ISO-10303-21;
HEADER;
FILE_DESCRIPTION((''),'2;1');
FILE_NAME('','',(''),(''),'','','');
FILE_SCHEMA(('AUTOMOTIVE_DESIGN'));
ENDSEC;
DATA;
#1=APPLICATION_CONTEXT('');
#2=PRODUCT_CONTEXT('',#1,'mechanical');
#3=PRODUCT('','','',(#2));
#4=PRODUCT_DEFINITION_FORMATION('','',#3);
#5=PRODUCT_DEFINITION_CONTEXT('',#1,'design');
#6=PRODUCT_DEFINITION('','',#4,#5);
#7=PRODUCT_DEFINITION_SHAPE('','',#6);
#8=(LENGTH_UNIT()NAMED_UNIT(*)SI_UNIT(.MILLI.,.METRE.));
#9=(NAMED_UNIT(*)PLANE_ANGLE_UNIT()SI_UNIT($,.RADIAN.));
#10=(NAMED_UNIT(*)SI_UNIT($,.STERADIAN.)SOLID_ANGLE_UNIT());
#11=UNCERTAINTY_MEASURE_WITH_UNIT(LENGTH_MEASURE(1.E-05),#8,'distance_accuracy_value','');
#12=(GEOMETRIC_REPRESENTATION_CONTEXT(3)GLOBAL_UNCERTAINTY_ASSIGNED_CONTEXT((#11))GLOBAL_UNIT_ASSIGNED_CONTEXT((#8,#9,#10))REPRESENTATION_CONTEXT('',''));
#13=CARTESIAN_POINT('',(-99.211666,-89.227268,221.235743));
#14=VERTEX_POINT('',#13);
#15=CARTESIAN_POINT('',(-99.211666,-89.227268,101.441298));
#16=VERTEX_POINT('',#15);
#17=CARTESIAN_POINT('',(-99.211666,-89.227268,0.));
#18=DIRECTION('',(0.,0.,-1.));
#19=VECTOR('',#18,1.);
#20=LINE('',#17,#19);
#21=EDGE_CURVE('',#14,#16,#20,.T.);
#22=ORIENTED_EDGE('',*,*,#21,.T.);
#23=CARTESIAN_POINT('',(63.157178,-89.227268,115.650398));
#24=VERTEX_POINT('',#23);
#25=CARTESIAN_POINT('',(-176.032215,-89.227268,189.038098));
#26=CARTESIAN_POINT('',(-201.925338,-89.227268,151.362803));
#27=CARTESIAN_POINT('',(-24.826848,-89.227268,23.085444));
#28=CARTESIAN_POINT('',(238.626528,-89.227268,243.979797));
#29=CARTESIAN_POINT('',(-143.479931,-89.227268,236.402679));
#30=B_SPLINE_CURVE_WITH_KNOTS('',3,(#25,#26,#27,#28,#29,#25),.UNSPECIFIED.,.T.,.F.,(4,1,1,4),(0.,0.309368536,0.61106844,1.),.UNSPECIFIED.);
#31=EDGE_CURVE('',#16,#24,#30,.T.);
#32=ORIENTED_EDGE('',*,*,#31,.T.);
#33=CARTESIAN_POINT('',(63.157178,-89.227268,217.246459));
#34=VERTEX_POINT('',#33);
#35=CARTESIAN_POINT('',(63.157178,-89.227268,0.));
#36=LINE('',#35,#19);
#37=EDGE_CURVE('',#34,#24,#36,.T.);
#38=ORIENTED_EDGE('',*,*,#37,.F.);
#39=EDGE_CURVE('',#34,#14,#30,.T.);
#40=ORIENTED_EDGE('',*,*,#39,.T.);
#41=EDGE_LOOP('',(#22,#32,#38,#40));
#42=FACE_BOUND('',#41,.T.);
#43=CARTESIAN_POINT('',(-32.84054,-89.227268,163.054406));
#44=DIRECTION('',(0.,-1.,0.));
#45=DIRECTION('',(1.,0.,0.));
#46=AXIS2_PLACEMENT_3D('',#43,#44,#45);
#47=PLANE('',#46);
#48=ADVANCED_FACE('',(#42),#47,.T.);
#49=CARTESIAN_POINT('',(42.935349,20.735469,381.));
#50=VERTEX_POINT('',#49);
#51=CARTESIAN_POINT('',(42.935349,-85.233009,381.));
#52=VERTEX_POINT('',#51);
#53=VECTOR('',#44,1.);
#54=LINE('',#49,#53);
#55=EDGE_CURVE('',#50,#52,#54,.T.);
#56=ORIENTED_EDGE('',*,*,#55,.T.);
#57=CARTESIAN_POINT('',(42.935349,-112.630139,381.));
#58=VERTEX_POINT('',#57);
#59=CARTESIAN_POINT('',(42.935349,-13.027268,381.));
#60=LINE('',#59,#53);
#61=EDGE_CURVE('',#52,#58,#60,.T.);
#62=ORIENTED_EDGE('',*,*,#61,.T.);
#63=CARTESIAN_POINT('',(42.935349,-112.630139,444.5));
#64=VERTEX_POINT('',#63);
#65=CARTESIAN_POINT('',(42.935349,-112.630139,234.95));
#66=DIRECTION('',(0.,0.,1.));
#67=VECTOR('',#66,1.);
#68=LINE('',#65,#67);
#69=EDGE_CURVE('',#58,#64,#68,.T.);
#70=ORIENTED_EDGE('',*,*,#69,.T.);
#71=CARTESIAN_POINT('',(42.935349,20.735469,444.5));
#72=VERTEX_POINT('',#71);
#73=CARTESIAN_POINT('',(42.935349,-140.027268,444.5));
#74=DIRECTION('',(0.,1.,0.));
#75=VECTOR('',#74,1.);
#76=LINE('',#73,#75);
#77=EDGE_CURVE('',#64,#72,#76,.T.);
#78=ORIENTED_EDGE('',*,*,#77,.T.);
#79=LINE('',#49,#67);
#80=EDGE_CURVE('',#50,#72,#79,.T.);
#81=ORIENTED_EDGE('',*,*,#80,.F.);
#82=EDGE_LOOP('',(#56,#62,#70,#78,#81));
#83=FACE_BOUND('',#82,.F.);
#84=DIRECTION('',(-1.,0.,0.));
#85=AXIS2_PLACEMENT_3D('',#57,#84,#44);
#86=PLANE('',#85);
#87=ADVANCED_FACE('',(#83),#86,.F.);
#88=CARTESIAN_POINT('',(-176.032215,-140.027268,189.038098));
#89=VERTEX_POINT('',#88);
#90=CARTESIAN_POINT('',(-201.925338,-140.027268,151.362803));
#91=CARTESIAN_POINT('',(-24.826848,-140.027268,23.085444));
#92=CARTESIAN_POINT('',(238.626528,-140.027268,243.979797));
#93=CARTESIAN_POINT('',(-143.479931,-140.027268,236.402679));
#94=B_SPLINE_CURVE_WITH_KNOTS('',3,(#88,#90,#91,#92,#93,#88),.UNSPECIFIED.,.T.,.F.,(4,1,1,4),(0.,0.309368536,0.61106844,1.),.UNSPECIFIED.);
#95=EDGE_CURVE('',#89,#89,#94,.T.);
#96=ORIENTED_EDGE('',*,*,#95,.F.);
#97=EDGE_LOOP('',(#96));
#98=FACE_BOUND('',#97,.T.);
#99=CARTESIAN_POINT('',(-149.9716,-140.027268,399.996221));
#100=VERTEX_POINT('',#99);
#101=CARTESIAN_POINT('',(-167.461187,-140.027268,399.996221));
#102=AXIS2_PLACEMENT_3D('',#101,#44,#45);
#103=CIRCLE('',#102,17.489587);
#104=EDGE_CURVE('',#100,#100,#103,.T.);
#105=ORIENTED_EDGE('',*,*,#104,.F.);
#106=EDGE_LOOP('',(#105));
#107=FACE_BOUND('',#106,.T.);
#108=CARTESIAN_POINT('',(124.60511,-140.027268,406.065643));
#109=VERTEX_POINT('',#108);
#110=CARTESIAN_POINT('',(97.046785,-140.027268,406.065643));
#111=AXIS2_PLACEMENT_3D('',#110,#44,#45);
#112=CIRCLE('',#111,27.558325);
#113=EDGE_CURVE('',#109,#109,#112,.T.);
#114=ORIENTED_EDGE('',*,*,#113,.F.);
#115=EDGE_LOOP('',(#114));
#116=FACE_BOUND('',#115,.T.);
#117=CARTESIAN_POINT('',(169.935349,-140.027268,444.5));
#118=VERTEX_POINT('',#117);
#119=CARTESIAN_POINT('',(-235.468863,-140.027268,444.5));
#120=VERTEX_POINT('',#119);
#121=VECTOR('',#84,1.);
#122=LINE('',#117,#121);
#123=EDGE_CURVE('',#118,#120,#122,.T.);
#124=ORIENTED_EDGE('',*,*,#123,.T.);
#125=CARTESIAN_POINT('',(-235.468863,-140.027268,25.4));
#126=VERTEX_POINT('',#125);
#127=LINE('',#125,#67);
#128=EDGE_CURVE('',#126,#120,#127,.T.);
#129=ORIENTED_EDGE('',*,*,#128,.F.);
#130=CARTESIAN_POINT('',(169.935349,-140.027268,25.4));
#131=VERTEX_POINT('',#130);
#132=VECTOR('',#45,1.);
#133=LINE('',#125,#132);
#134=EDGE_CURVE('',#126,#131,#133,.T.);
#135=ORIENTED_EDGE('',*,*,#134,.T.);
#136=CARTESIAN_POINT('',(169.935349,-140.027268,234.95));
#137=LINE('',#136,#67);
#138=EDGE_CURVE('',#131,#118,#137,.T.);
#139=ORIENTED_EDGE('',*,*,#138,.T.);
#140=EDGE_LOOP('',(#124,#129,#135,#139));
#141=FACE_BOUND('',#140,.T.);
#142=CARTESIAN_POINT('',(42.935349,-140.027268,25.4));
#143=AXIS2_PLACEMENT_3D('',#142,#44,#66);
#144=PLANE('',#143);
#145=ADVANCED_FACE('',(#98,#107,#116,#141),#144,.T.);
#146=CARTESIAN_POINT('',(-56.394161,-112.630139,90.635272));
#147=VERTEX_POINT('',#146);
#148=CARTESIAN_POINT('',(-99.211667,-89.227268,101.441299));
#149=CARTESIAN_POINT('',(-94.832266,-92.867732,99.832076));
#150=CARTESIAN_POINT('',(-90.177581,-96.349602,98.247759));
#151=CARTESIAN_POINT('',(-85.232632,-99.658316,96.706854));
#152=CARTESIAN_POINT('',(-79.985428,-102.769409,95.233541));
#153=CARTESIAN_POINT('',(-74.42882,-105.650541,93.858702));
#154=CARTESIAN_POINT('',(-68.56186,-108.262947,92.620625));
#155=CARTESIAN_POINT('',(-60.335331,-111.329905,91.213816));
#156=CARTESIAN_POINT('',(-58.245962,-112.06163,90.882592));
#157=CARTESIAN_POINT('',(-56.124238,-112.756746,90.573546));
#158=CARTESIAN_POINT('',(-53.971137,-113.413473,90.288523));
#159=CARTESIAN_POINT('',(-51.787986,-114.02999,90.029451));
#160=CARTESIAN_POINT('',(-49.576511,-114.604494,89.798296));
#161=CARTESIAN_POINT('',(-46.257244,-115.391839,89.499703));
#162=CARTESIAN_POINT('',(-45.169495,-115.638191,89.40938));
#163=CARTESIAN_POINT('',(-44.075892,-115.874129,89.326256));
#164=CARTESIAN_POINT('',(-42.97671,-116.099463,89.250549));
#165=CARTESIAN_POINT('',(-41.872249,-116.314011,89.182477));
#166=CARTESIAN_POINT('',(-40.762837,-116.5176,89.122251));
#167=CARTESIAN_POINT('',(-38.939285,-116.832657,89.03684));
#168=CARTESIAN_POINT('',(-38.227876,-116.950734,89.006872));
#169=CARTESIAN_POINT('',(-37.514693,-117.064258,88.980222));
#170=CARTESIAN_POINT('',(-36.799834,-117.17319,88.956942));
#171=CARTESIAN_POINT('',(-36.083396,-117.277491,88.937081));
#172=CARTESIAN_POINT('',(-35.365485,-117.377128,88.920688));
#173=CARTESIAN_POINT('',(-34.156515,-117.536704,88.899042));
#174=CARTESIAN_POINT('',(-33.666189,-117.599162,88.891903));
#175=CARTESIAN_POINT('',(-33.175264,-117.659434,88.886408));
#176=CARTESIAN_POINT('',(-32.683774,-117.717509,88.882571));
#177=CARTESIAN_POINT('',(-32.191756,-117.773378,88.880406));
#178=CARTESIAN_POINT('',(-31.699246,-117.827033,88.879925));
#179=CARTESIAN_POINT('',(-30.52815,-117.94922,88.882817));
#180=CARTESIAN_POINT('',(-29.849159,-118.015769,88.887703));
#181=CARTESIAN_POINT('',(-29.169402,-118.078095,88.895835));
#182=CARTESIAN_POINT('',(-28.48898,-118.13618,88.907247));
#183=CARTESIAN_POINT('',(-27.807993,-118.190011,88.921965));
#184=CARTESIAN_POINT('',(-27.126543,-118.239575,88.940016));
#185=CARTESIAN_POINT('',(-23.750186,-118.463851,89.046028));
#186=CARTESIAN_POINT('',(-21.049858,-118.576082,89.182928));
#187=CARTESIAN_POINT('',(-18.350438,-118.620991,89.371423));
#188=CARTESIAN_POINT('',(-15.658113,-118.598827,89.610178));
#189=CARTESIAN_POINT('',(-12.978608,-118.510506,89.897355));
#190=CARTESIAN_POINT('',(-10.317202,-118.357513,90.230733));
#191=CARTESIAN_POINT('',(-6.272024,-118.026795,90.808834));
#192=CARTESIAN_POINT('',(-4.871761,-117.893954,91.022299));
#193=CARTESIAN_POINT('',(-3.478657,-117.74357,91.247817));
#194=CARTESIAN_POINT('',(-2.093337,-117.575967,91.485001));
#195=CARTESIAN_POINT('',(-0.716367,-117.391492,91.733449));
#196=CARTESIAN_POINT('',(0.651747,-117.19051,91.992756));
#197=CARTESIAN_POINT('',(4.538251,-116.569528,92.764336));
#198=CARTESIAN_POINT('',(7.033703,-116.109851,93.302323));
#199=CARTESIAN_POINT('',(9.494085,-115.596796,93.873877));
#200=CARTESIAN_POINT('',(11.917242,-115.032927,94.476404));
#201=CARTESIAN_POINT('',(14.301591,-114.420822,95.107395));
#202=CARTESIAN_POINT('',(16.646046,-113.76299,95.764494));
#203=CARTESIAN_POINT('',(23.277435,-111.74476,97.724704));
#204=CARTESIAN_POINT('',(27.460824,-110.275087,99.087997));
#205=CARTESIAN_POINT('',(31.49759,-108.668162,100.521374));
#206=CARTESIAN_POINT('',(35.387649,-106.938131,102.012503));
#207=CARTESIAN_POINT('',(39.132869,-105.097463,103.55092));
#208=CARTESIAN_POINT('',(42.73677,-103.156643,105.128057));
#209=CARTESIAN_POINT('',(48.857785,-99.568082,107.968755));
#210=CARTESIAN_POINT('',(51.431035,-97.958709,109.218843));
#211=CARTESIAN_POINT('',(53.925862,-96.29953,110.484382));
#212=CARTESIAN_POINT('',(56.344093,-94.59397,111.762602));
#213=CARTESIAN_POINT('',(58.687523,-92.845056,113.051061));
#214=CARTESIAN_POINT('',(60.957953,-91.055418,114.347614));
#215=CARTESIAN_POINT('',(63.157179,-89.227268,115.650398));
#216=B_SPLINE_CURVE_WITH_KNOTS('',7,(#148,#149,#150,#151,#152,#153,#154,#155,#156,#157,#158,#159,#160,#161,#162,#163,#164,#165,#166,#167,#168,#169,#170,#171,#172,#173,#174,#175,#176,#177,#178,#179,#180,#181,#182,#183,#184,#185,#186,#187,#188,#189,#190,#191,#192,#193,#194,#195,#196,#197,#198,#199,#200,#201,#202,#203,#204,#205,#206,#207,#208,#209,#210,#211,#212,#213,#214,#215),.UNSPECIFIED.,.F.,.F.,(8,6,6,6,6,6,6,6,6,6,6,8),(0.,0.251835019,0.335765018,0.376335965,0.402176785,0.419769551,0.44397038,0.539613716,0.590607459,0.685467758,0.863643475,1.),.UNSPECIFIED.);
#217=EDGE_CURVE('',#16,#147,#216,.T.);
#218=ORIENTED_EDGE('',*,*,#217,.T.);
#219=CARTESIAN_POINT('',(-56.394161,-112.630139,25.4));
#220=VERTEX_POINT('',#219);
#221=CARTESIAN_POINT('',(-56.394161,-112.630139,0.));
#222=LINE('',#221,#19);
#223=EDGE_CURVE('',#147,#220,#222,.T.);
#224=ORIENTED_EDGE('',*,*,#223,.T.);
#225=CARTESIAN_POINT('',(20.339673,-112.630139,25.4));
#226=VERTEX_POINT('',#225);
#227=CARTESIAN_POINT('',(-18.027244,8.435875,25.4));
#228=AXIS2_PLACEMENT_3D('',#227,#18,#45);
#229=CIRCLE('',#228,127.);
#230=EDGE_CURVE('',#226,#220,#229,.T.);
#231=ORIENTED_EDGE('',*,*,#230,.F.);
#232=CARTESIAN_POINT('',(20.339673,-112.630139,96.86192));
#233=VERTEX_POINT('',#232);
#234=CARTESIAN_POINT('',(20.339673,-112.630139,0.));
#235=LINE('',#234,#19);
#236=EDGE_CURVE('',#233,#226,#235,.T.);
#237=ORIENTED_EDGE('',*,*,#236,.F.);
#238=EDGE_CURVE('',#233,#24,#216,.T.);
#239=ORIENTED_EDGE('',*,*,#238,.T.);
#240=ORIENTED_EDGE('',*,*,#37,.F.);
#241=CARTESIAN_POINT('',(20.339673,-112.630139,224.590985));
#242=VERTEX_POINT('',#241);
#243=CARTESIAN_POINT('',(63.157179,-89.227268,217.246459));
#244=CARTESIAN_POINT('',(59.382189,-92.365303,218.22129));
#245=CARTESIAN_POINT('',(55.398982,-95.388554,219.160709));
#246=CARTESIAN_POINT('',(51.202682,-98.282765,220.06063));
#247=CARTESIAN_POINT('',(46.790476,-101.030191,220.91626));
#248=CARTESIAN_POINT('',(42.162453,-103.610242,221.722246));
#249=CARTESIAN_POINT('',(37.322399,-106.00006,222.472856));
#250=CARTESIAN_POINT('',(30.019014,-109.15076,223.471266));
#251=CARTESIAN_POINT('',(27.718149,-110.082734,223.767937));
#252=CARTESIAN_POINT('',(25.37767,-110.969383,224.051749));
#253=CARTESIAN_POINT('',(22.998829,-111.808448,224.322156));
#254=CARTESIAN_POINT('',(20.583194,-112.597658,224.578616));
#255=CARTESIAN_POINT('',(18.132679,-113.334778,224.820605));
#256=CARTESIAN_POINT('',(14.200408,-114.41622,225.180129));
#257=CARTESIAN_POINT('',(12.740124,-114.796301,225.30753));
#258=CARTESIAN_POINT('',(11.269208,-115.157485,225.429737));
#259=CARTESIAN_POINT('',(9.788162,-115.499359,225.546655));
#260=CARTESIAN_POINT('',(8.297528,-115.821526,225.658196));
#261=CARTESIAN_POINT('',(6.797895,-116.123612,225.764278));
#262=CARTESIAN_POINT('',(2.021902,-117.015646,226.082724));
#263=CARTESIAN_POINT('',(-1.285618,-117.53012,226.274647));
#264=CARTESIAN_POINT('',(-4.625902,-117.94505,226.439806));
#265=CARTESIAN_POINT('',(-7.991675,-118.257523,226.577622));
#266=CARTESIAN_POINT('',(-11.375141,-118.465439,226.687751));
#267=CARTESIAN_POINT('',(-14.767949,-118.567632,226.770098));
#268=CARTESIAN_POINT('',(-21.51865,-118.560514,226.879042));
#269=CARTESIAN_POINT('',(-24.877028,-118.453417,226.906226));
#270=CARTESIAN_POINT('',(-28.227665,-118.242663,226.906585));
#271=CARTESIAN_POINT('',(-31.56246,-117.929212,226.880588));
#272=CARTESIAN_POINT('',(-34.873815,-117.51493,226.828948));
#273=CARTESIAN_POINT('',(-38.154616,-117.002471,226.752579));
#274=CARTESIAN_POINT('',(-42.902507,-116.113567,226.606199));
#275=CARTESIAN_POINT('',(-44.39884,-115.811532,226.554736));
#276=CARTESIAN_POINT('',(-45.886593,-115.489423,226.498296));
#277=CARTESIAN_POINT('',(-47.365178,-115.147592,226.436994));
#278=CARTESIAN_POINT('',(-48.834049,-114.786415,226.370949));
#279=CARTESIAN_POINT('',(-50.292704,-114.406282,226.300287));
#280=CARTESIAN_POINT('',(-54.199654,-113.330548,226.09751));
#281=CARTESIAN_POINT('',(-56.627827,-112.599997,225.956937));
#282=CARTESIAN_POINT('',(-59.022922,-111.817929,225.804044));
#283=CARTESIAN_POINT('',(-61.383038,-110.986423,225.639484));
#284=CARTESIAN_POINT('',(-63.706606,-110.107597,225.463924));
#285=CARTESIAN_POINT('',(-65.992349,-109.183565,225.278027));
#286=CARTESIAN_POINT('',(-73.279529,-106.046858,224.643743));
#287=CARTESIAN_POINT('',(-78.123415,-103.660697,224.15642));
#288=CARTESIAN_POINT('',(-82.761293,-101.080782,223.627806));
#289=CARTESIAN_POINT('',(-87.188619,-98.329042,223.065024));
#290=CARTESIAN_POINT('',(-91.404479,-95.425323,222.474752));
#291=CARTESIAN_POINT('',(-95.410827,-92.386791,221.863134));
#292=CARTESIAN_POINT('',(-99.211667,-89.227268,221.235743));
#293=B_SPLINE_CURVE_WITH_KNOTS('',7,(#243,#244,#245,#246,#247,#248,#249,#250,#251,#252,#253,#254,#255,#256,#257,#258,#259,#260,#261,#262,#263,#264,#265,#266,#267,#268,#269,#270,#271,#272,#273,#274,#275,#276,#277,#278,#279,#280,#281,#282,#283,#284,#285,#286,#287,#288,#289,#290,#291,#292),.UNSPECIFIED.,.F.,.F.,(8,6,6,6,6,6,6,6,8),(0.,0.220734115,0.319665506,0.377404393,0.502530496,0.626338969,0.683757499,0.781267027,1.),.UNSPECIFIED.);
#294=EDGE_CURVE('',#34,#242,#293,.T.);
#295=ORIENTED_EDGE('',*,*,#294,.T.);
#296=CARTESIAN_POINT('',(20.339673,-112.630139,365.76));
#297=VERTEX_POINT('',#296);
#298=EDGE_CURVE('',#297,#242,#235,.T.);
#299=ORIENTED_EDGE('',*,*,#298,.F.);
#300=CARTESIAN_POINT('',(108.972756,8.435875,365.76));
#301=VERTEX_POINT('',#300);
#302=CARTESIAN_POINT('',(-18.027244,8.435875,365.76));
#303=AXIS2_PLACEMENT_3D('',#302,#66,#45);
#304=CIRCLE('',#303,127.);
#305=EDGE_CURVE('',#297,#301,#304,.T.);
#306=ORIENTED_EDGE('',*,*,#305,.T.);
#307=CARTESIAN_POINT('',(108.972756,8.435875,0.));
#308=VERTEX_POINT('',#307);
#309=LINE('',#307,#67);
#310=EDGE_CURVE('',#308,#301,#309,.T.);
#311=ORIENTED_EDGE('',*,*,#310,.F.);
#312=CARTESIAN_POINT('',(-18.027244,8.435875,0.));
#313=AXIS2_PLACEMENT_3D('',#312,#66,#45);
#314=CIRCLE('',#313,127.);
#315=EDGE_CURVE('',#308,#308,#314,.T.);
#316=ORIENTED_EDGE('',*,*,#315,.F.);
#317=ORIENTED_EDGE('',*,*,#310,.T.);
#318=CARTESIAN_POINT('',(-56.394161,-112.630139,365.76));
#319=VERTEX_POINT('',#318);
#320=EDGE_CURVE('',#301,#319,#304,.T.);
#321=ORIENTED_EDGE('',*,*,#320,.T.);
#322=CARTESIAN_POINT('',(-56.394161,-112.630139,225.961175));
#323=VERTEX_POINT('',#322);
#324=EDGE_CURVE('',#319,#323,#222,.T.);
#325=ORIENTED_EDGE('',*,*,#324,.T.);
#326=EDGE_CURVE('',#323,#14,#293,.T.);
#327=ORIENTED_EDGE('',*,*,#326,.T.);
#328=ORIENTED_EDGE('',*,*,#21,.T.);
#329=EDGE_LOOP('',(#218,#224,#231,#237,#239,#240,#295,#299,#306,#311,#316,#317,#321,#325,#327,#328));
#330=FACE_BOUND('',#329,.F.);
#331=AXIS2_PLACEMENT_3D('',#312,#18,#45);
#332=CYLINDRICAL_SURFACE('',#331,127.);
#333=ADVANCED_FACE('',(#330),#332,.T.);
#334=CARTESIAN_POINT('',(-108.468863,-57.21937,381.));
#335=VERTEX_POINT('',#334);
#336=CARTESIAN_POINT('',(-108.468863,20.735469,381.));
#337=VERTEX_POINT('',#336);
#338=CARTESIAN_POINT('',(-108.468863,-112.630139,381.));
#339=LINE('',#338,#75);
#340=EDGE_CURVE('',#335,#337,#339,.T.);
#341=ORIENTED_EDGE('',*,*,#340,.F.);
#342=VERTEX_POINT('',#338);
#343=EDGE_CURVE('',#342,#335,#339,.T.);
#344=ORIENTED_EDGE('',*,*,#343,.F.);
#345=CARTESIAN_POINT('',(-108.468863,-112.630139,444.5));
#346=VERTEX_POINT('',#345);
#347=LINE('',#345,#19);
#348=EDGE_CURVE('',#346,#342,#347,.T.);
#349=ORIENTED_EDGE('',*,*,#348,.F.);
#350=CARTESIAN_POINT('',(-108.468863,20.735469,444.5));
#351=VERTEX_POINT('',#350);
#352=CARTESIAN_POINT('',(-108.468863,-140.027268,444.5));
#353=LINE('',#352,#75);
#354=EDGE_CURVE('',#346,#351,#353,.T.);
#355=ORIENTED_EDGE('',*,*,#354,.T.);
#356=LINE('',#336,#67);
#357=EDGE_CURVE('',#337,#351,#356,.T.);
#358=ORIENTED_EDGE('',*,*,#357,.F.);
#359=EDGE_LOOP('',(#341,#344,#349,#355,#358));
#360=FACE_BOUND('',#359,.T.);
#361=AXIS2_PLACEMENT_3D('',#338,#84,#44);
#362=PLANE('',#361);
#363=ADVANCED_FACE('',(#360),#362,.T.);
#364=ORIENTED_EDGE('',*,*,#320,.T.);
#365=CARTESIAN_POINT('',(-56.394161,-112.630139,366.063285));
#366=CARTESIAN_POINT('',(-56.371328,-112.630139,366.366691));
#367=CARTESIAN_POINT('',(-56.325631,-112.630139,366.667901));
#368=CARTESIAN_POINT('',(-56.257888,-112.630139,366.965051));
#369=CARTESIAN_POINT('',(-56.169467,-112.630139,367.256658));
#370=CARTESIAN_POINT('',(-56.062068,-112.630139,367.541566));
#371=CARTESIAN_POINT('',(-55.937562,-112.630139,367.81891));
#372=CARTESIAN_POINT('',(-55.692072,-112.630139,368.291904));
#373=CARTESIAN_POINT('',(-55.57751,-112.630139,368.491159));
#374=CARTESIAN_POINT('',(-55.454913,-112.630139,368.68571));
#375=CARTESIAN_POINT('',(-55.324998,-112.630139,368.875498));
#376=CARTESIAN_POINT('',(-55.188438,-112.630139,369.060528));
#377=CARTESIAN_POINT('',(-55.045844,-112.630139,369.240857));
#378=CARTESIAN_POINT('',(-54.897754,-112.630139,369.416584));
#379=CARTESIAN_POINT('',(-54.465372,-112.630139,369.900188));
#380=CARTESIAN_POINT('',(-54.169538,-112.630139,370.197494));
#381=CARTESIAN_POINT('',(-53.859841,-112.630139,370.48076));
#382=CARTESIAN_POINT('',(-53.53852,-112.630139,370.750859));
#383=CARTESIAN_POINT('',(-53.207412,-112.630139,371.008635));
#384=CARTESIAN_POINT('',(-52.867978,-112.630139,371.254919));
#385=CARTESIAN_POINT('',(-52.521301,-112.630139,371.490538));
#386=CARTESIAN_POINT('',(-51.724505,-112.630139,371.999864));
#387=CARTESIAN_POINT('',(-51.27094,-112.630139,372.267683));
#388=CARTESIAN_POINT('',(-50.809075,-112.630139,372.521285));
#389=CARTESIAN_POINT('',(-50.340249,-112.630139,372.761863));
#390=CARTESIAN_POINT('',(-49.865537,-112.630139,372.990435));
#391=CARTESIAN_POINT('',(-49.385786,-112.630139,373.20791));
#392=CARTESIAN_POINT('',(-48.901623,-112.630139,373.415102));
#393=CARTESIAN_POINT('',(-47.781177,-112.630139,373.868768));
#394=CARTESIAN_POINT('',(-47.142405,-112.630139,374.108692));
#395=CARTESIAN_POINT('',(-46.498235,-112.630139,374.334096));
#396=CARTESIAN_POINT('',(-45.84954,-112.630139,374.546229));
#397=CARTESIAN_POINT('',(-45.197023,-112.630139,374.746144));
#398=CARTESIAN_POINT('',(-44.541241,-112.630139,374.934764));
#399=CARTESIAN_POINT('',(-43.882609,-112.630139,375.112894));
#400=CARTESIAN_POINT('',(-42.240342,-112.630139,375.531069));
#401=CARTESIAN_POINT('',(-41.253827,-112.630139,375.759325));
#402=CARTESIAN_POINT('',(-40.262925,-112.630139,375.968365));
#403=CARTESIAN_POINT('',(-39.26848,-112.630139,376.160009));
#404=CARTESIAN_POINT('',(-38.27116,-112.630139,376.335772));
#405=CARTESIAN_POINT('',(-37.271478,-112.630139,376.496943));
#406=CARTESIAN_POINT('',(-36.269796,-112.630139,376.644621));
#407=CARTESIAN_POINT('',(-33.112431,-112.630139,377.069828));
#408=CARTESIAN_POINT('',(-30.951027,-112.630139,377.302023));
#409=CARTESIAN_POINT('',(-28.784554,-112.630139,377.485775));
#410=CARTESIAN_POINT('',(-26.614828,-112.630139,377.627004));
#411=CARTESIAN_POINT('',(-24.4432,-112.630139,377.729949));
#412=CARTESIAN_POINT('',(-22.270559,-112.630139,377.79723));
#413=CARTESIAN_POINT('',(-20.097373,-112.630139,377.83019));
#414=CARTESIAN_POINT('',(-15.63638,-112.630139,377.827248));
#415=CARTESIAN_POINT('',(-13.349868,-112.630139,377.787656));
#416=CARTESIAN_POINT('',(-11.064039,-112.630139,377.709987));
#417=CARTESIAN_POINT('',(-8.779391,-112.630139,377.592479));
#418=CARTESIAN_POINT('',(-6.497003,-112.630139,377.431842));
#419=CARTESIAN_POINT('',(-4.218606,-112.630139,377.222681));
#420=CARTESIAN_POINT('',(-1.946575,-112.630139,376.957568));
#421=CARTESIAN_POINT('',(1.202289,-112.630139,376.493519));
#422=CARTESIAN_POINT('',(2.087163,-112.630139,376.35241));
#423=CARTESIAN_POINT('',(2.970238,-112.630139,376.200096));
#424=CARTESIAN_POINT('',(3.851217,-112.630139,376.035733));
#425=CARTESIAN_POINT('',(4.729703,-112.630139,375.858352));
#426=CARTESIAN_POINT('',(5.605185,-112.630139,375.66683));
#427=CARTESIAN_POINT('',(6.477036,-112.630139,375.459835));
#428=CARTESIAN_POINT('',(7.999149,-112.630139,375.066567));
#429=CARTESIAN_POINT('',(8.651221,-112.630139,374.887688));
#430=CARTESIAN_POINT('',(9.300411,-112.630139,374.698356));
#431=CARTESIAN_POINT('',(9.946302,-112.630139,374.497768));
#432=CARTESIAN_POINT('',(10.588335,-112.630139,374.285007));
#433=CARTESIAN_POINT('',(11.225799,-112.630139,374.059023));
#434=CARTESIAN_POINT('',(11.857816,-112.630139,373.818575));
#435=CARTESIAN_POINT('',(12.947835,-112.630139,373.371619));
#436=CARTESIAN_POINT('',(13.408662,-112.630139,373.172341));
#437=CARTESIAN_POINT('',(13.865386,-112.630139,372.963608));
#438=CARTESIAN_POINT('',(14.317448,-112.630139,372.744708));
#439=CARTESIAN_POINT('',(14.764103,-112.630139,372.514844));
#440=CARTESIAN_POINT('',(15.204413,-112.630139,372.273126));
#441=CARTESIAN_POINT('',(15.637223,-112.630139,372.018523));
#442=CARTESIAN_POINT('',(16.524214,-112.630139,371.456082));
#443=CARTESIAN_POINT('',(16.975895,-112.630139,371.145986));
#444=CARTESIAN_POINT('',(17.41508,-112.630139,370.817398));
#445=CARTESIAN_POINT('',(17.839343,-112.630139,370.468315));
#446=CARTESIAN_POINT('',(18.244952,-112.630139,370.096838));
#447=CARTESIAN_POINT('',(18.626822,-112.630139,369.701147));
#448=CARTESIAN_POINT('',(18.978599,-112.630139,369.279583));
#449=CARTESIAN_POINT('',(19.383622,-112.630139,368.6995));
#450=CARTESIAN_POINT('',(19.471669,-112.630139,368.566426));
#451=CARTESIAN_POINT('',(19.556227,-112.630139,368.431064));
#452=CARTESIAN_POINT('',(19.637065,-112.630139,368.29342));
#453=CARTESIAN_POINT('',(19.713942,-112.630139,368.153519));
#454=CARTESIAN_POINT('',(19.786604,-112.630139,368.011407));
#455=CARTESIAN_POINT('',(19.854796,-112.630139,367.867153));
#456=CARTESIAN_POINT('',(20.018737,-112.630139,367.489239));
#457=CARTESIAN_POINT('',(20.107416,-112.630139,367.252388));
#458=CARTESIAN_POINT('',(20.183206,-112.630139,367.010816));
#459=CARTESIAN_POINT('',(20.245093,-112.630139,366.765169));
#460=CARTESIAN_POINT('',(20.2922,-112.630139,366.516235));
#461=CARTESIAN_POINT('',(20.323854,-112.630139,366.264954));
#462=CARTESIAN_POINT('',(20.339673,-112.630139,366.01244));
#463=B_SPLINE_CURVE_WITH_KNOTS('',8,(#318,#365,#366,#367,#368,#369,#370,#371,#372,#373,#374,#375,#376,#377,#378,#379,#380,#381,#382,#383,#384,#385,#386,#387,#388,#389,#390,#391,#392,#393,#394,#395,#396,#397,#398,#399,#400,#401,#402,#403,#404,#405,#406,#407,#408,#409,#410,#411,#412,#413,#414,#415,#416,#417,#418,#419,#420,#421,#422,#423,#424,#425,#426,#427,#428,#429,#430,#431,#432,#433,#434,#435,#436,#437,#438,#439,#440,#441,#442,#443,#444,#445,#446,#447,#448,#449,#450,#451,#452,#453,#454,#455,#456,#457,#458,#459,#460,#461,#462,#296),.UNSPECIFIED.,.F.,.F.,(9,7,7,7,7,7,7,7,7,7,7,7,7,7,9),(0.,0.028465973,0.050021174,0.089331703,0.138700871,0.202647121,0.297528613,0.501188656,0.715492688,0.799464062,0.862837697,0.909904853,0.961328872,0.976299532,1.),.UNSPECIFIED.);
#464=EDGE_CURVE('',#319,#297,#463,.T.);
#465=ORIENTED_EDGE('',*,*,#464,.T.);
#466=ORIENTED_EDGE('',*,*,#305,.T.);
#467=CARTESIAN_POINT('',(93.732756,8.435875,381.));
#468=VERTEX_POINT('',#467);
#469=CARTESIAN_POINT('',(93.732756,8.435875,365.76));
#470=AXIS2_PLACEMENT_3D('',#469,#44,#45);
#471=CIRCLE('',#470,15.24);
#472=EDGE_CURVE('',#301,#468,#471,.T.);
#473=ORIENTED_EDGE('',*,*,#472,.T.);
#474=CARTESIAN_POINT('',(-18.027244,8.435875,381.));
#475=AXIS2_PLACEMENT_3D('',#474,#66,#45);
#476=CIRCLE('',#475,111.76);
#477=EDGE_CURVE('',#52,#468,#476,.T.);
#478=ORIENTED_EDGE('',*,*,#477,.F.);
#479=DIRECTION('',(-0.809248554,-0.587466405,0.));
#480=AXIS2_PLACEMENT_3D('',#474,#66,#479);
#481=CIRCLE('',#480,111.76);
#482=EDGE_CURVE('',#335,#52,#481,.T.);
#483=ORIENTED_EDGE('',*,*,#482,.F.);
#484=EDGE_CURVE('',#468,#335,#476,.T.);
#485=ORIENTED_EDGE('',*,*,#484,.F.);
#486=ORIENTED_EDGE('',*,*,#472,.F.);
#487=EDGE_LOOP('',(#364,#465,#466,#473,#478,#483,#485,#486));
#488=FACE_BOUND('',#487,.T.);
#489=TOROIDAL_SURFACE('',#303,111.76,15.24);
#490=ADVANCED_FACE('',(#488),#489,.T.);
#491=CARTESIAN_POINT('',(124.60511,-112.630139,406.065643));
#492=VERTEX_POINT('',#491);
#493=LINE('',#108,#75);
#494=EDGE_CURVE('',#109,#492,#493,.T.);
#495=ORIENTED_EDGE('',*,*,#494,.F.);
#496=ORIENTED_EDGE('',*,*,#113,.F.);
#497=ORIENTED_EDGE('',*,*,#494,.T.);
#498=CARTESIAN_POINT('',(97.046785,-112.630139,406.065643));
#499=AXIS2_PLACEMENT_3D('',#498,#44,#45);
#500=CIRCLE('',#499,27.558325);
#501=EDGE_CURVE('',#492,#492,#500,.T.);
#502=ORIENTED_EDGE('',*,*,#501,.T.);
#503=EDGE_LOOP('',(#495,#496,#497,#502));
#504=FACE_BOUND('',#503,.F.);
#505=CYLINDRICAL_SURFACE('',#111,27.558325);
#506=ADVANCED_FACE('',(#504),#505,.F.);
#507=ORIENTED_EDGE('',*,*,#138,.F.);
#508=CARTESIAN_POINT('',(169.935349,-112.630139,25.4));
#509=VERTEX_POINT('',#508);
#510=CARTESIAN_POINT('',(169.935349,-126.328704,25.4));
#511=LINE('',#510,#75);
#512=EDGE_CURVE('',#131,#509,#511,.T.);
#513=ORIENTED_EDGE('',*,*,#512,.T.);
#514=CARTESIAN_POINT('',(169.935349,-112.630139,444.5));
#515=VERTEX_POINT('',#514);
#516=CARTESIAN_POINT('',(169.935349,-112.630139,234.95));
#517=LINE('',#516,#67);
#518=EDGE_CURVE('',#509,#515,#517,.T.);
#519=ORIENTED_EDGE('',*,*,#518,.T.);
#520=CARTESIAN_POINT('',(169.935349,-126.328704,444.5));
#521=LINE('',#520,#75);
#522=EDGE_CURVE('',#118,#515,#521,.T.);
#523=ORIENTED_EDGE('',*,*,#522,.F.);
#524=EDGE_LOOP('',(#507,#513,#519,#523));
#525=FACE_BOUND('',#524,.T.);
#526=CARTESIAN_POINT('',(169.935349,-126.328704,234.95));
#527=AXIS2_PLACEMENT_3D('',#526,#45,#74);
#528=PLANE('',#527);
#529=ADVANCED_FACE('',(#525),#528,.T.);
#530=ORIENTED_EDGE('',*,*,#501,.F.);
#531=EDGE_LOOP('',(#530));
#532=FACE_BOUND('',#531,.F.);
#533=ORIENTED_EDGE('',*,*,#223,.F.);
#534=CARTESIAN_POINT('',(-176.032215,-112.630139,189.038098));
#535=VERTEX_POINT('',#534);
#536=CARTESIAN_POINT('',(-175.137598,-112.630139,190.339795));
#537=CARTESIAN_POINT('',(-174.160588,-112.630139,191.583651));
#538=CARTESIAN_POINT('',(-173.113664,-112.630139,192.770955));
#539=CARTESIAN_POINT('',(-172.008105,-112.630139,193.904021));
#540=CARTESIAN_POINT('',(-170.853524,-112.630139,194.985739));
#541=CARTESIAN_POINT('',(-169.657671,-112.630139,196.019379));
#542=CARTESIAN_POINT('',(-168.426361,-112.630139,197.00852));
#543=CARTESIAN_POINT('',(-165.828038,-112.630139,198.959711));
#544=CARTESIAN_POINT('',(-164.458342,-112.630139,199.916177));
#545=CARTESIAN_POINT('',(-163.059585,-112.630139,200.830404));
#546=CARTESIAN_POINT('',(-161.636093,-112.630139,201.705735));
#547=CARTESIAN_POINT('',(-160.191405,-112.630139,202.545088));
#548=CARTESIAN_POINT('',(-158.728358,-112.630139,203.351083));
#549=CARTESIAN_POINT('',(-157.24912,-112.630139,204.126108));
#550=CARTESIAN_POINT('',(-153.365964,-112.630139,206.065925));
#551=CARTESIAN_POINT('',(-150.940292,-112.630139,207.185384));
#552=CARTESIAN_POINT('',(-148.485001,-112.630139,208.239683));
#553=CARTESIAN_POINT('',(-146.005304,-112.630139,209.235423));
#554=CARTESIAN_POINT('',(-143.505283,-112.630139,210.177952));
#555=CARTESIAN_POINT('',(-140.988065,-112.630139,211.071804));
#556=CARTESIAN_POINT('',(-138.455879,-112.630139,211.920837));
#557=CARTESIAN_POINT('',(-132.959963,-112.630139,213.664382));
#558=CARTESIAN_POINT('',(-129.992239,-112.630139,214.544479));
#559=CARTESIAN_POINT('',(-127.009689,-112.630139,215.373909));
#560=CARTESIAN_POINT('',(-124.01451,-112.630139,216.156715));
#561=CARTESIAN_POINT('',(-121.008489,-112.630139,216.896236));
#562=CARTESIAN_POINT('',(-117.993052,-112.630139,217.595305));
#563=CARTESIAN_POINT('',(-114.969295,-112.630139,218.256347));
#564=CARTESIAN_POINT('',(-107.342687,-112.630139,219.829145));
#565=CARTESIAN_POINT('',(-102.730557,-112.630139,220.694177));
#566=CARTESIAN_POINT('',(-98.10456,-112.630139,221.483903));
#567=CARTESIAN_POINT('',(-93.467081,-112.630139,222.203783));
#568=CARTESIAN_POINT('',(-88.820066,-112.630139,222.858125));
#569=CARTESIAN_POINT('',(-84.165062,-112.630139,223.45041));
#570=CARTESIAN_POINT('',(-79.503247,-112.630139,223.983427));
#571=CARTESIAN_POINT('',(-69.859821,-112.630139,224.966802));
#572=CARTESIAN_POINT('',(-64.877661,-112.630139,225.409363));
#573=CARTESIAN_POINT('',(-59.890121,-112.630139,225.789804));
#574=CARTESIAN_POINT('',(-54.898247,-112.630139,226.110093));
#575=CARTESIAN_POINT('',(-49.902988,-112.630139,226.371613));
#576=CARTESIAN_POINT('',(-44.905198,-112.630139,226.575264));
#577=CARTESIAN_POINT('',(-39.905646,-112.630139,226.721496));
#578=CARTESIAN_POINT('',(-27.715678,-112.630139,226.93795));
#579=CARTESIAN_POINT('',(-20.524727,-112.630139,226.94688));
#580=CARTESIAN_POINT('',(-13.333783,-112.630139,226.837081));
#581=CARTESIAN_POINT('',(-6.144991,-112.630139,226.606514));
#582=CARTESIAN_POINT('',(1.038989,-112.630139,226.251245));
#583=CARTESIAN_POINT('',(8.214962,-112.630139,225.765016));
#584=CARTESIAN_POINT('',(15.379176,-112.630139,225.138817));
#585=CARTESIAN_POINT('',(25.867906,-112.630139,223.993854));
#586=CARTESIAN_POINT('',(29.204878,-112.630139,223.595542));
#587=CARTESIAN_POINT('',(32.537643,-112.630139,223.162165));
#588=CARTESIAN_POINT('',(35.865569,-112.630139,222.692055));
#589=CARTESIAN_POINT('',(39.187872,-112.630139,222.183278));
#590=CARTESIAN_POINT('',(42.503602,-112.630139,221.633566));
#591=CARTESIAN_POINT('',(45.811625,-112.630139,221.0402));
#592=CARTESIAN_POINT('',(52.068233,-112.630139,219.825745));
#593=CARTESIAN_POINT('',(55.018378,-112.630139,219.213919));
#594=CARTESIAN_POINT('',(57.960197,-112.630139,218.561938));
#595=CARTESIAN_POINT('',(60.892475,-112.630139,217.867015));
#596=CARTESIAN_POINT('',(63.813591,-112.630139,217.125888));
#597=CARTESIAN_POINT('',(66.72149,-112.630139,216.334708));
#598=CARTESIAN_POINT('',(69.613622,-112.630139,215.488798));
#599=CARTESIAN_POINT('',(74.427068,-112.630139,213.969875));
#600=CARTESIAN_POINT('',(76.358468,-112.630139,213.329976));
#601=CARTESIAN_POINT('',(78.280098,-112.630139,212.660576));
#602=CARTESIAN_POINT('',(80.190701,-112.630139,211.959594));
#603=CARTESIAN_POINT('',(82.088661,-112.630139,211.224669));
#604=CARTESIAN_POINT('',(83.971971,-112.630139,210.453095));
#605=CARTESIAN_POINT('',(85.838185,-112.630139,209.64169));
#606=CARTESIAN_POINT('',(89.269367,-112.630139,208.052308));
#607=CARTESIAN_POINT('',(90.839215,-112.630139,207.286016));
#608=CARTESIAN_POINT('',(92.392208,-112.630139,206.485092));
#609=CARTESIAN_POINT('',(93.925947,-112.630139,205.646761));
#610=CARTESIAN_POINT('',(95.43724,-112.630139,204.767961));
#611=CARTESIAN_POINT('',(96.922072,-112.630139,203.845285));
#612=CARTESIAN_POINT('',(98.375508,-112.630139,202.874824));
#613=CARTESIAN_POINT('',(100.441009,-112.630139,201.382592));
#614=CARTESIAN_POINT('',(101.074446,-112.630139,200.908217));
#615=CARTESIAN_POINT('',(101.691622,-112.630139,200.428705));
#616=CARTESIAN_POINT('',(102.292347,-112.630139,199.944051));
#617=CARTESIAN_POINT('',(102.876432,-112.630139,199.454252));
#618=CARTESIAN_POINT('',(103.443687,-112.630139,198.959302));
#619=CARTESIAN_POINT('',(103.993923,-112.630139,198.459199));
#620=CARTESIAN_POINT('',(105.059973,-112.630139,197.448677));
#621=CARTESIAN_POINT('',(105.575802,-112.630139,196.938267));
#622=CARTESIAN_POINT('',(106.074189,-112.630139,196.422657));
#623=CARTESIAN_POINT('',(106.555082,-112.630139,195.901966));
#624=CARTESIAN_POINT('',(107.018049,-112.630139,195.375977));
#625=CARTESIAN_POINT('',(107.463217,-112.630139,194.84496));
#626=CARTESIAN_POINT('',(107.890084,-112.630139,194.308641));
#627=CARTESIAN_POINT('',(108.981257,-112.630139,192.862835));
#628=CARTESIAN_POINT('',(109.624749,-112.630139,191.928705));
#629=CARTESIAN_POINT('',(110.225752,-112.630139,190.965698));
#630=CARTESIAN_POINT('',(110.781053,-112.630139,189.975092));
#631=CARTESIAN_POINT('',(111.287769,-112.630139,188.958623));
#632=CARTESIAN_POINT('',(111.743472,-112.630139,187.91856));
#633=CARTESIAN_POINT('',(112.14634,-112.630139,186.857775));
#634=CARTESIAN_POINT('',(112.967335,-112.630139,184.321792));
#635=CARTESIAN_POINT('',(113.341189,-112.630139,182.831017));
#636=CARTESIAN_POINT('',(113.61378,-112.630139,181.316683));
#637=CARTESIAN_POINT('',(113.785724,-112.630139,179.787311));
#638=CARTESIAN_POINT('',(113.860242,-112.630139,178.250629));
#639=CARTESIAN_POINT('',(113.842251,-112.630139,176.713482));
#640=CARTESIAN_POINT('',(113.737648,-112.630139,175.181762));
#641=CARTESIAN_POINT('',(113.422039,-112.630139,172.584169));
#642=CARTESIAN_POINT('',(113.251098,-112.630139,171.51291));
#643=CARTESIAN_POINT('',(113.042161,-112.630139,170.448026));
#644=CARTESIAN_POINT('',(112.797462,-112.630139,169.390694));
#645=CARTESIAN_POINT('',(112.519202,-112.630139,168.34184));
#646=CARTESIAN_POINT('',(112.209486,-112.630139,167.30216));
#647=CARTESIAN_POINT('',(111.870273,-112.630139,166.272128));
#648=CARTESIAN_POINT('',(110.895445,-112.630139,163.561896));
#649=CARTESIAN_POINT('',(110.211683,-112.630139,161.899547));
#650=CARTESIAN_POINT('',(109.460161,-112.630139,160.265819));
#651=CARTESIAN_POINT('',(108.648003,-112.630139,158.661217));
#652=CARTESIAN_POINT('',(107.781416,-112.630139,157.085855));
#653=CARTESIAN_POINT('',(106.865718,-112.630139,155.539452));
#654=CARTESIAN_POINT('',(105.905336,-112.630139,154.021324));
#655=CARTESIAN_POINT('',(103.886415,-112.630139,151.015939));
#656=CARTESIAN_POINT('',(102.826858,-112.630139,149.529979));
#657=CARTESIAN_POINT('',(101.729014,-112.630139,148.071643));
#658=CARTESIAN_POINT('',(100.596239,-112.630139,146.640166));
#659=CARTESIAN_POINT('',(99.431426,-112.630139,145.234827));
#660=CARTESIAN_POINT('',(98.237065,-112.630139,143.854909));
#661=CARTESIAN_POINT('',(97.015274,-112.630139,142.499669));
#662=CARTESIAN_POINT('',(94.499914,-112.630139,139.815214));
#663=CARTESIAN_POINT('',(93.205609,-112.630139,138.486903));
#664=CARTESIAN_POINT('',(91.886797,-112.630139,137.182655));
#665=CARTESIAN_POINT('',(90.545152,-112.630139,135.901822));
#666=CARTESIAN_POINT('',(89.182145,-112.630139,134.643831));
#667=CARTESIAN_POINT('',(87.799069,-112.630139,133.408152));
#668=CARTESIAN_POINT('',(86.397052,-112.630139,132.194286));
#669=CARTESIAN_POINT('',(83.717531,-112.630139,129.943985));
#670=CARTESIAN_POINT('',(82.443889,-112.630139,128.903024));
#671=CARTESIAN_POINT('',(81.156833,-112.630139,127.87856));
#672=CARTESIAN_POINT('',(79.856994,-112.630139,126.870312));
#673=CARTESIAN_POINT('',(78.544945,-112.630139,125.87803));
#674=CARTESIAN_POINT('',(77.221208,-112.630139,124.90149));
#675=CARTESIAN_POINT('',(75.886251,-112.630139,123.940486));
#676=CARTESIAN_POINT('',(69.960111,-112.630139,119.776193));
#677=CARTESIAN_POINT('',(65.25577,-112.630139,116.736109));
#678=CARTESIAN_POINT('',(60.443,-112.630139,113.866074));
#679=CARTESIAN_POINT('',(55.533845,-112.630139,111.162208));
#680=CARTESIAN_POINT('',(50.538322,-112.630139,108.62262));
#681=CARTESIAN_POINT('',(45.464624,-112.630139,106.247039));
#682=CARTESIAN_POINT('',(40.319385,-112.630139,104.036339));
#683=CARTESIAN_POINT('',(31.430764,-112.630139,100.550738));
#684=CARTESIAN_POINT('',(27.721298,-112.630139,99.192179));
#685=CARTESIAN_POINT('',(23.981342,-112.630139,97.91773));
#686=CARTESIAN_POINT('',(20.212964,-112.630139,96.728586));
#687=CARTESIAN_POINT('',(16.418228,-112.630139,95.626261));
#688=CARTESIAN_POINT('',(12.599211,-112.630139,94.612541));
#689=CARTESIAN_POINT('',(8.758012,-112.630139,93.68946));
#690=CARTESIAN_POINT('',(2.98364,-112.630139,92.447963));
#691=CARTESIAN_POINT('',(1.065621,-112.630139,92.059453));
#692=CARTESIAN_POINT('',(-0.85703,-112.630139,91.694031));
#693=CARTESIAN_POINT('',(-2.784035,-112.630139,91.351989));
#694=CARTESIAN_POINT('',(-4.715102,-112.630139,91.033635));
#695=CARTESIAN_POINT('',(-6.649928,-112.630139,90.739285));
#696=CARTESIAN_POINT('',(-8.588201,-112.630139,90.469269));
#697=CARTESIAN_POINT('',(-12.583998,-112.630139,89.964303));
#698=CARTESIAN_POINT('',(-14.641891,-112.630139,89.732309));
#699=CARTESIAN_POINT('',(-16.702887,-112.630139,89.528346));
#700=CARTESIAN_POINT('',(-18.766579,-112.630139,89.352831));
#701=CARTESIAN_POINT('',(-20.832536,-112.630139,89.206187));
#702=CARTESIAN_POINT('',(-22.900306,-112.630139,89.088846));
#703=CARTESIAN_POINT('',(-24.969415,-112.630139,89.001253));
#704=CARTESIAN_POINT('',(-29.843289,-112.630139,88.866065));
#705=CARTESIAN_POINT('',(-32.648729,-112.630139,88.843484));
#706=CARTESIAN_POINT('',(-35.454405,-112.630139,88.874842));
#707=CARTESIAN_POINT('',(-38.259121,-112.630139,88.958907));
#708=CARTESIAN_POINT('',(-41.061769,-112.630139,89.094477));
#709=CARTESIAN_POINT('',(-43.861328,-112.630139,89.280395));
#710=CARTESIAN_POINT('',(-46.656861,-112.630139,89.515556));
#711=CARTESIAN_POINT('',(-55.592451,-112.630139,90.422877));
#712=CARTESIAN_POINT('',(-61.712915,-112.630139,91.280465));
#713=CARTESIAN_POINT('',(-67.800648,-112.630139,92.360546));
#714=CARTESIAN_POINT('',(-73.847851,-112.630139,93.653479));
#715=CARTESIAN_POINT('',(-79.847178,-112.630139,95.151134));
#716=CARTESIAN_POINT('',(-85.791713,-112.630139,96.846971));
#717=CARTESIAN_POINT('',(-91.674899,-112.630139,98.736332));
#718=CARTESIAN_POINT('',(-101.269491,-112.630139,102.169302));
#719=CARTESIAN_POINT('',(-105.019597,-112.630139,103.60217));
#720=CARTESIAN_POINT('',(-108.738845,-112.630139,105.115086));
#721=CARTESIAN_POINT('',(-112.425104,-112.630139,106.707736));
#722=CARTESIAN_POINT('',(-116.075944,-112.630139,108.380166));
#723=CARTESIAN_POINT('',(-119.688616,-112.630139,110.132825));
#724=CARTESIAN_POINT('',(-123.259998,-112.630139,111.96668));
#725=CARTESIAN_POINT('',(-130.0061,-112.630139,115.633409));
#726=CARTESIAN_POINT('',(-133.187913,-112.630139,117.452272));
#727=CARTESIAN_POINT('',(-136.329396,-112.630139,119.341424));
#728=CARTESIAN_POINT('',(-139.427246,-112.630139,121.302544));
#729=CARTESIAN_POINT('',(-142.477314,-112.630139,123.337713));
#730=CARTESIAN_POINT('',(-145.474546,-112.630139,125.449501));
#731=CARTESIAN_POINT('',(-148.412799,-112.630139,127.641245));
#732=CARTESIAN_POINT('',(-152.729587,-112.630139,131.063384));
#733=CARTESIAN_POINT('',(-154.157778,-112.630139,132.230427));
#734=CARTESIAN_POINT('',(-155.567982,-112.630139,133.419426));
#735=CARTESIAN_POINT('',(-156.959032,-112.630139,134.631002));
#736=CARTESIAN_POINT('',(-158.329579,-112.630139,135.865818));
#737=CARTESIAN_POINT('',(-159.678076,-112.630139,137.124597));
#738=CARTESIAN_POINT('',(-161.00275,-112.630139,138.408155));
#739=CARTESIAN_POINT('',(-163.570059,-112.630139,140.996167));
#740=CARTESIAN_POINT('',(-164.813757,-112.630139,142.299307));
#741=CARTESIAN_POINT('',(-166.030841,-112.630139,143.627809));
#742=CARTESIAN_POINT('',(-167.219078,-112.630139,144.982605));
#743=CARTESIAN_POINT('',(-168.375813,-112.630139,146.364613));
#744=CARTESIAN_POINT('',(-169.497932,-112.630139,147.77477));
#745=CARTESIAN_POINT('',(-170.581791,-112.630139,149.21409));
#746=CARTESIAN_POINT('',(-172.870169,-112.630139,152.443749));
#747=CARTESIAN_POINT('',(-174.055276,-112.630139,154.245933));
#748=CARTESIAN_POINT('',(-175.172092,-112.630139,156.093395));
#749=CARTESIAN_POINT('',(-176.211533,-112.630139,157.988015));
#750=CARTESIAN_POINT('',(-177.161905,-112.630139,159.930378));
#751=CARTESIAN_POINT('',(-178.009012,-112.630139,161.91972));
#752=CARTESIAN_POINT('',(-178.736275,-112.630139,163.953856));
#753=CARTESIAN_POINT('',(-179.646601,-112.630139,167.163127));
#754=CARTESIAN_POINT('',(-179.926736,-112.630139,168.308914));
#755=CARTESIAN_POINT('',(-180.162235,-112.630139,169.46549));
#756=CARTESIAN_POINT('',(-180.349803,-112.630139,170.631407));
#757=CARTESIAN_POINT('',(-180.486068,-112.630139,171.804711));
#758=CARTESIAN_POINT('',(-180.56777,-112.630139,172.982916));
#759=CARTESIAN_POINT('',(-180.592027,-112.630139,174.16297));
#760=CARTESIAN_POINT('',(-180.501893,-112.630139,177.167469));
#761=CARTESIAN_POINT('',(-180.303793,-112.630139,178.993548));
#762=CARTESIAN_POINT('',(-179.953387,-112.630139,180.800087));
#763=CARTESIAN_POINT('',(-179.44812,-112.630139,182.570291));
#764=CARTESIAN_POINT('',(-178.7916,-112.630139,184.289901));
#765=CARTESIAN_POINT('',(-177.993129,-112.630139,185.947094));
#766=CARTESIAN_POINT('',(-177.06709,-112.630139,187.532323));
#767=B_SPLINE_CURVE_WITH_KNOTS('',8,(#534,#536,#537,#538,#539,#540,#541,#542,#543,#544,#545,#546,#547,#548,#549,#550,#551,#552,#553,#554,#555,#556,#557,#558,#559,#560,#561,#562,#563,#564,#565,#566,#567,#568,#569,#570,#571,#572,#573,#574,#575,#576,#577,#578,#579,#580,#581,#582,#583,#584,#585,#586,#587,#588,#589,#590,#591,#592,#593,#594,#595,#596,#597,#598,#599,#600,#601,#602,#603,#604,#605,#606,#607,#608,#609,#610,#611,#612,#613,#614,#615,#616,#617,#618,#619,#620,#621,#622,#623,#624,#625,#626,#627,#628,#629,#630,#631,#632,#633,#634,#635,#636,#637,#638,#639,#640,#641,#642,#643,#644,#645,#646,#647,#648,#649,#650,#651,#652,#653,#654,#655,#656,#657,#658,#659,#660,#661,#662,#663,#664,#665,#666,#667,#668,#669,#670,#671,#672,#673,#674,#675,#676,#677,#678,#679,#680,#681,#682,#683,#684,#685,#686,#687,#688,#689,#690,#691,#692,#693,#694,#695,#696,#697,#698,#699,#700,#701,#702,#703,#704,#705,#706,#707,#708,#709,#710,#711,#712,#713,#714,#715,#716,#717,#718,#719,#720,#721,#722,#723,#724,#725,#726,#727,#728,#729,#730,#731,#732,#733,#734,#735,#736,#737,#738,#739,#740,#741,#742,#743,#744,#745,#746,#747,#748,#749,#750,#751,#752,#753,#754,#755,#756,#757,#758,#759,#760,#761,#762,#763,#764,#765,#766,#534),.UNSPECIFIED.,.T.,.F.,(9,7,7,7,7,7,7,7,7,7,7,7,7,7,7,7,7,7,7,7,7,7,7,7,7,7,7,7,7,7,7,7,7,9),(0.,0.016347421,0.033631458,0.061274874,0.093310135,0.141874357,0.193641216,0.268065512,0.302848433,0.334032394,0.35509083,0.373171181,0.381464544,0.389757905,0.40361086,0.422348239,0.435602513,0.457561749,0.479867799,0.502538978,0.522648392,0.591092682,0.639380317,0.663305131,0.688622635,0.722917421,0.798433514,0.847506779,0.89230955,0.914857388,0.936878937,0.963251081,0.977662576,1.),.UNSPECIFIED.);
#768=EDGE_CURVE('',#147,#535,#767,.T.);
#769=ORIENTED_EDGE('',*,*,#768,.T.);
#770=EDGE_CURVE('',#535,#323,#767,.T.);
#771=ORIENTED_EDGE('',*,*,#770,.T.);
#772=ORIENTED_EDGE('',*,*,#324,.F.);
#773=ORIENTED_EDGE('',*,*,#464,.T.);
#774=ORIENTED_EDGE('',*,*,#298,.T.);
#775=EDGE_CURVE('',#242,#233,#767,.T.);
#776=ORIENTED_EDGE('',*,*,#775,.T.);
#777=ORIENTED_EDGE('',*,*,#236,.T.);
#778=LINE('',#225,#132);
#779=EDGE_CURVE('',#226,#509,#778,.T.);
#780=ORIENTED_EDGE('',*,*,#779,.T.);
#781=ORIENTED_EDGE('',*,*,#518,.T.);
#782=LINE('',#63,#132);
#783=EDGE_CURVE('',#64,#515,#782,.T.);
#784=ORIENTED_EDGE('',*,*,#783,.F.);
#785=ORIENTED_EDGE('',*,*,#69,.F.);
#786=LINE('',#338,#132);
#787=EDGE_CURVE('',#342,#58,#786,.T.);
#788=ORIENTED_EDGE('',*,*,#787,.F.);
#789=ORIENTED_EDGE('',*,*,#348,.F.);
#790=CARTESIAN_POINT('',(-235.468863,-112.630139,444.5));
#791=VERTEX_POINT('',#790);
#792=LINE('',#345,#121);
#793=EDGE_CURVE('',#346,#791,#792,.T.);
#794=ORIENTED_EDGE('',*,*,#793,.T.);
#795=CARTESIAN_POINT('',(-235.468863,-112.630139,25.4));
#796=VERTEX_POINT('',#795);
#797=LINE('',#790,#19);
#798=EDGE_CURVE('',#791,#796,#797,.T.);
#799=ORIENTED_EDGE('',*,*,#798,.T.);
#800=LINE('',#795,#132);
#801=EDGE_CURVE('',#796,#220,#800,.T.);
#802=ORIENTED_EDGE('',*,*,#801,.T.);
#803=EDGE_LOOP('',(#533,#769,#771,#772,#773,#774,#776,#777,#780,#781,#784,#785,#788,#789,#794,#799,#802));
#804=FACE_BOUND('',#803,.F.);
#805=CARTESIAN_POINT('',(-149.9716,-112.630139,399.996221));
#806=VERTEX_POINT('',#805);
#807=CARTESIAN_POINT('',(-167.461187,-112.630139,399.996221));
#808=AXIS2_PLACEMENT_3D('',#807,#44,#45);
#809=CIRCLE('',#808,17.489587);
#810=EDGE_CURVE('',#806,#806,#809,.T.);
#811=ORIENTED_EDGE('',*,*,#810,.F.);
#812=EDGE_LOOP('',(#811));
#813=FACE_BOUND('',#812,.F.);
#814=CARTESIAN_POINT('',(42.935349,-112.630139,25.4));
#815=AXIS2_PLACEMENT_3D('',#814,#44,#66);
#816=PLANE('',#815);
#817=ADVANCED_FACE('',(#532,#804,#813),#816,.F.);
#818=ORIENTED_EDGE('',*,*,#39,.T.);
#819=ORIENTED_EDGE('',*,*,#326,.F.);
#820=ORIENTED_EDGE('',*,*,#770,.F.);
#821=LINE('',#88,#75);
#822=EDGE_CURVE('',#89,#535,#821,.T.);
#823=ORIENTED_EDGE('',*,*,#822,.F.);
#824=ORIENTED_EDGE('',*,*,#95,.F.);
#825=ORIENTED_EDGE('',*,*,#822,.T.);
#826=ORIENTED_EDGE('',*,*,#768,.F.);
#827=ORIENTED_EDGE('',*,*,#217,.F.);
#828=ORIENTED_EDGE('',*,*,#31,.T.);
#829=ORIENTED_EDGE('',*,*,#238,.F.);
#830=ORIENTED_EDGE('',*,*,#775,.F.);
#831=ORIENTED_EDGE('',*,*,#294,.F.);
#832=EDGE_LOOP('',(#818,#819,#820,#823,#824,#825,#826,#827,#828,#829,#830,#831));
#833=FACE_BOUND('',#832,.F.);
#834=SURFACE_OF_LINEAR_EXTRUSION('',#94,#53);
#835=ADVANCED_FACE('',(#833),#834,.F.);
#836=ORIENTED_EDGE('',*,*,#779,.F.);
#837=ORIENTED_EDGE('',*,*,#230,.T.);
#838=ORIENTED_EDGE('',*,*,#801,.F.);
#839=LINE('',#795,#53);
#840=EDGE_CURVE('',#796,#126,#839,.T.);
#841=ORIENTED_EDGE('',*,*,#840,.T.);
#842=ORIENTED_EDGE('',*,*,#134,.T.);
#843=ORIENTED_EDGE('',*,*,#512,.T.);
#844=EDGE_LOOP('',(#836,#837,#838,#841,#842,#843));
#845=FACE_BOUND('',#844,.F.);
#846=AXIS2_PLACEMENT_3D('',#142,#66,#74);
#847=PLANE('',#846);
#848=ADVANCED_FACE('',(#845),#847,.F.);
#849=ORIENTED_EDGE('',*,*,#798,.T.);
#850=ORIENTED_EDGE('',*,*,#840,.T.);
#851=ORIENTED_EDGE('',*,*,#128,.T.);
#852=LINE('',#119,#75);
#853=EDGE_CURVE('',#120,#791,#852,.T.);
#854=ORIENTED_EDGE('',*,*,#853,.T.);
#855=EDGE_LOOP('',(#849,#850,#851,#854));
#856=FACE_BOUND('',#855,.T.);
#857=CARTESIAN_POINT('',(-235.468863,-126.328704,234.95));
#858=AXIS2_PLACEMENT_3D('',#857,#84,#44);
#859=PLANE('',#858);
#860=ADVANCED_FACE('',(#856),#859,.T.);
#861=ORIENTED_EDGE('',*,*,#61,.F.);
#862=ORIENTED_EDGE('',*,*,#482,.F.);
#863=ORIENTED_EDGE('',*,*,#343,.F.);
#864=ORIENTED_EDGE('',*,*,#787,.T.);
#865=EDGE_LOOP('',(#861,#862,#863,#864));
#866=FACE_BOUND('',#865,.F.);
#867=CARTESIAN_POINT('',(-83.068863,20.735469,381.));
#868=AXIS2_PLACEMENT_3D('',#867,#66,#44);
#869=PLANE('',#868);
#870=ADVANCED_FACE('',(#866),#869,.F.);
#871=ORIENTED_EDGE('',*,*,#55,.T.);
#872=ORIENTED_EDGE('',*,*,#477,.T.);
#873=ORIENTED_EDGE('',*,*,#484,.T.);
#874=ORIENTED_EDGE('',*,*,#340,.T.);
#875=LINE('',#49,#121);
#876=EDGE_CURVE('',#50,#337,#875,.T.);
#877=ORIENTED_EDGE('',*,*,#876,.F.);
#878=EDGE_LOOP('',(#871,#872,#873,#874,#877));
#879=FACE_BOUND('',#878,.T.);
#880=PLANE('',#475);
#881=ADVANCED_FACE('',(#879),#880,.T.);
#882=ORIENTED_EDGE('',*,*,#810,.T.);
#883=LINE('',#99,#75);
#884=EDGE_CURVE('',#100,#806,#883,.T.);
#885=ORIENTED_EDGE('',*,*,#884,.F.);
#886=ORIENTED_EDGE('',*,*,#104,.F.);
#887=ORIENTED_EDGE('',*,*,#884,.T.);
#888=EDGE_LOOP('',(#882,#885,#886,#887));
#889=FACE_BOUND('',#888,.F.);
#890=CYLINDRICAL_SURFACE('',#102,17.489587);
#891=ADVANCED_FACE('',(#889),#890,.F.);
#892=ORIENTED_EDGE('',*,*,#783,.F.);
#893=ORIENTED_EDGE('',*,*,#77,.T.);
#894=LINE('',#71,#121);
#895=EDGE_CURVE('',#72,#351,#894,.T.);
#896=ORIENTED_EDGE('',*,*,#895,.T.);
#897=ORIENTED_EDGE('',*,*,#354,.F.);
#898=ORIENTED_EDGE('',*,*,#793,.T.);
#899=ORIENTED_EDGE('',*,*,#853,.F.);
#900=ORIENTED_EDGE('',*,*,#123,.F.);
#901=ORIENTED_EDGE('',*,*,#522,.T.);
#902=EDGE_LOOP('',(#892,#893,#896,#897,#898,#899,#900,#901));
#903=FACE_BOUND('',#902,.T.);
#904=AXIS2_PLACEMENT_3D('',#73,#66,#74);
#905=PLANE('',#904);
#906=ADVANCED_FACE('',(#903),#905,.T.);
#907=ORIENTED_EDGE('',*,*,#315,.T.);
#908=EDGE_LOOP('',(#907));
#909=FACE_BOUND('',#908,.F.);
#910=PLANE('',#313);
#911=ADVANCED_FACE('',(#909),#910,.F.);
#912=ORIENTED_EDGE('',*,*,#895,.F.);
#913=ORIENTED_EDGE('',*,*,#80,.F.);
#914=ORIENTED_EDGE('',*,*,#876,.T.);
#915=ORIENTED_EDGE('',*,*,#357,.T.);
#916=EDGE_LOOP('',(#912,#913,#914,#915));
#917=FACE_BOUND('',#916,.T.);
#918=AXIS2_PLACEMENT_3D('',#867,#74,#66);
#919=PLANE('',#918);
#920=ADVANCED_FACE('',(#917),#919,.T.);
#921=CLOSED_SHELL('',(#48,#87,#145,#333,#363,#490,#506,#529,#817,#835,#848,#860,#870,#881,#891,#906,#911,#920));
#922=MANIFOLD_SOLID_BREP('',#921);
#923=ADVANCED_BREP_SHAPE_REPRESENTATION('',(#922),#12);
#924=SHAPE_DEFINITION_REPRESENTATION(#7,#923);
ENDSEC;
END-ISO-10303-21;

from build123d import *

# Parameters (mm, degrees)
F0_R      = 127
F1_DEPTH  = 381
F2_R      = 15.24
F3_W      = 126.0042116046
F3_H      = 33.7627371773
F4_DEPTH  = 63.5
F5_W      = 126.0042116046
F5_H      = 63.5
F6_DEPTH  = 127
F7_W      = 126.0042116046
F7_H      = 27.3971298127
F8_DEPTH  = 355.6
F9_DEPTH  = 25.4
F11_DEPTH = 127
F12_W     = 27.3971298127
F12_H     = 419.1
F13_DEPTH = 127
F14_R     = 17.4895868551
F14_R_2   = 27.5583251685
F15_DEPTH = 50.8


with BuildPart() as f1:
    # F0 (on Top) → F1 (new body)
    with BuildSketch(Plane.XY):
        with Locations((-18.0272441357, 8.4358751774)):
            Circle(F0_R)
    extrude(amount=F1_DEPTH)

    # F2
    f2_edges = [f1.edges().sort_by_distance(p)[0] for p in [
        (-145.027244, 8.435875, 381),
    ]]
    fillet(f2_edges, radius=F2_R)

    # F3 (on face) → F4 (join)
    with BuildSketch(Plane.XY.offset(381)):
        with Locations((-20.0667567551, 3.8541001268)):
            Rectangle(F3_W, F3_H)
    extrude(amount=F4_DEPTH)

    # F5 (on face) → F6 (join)
    with BuildSketch(Plane.XZ.offset(13.0272684619)):
        with Locations((-20.0667567551, 412.75)):
            Rectangle(F5_W, F5_H)
    extrude(amount=F6_DEPTH)

    # F7 (on face) → F8 (join)
    with BuildSketch(Plane(origin=(0, 0, 381), x_dir=(1, 0, 0), z_dir=(0, 0, -1))):
        with Locations((-20.0667567551, 126.3287035555)):
            Rectangle(F7_W, F7_H)
    extrude(amount=F8_DEPTH)

    # F9 (add): a face of the model
    f9_faces = [f1.faces().sort_by_distance(p)[0] for p in [
        (-83.0688625574, -135.5385106419, 234.95),
    ]]
    extrude(f9_faces, amount=F9_DEPTH)

    # F10 (on face) → F11 (join)
    with BuildSketch(Plane(origin=(-108.4688625574, 0, 0), x_dir=(0, -1, 0), z_dir=(-1, 0, 0))):
        Polygon((140.0272684619, 25.4), (140.0272684619, 444.5), (112.6301386492, 444.5), (112.6301386492, 381), (112.6301386492, 25.4), align=None)
    extrude(amount=F11_DEPTH)

    # F12 (on face) → F13 (join)
    with BuildSketch(Plane.YZ.offset(42.9353490472)):
        with Locations((-126.3287035555, 234.95)):
            Rectangle(F12_W, F12_H)
    extrude(amount=F13_DEPTH)

    # F14 (on face) → F15 (cut)
    with BuildSketch(Plane.XZ.offset(140.0272684619)):
        with Locations((-167.4611866474, 399.9962210655)):
            Circle(F14_R)
        with Locations((97.0467850566, 406.0656428337)):
            Circle(F14_R_2)
        with BuildLine():
            add(Edge.make_bspline(
                [(-176.0322153568, 189.0380978584), (-201.9253380349, 151.3628030109), (-24.8268478885, 23.085444119), (238.6265275345, 243.979797102), (-143.4799308709, 236.4026792268), (-176.0322153568, 189.0380978584)],
                knots=[0, 0, 0, 0, 0.3093685357, 0.6110684405, 1, 1, 1, 1], degree=3))
        make_face()
    extrude(amount=-F15_DEPTH, mode=Mode.SUBTRACT)


solid = f1.part
